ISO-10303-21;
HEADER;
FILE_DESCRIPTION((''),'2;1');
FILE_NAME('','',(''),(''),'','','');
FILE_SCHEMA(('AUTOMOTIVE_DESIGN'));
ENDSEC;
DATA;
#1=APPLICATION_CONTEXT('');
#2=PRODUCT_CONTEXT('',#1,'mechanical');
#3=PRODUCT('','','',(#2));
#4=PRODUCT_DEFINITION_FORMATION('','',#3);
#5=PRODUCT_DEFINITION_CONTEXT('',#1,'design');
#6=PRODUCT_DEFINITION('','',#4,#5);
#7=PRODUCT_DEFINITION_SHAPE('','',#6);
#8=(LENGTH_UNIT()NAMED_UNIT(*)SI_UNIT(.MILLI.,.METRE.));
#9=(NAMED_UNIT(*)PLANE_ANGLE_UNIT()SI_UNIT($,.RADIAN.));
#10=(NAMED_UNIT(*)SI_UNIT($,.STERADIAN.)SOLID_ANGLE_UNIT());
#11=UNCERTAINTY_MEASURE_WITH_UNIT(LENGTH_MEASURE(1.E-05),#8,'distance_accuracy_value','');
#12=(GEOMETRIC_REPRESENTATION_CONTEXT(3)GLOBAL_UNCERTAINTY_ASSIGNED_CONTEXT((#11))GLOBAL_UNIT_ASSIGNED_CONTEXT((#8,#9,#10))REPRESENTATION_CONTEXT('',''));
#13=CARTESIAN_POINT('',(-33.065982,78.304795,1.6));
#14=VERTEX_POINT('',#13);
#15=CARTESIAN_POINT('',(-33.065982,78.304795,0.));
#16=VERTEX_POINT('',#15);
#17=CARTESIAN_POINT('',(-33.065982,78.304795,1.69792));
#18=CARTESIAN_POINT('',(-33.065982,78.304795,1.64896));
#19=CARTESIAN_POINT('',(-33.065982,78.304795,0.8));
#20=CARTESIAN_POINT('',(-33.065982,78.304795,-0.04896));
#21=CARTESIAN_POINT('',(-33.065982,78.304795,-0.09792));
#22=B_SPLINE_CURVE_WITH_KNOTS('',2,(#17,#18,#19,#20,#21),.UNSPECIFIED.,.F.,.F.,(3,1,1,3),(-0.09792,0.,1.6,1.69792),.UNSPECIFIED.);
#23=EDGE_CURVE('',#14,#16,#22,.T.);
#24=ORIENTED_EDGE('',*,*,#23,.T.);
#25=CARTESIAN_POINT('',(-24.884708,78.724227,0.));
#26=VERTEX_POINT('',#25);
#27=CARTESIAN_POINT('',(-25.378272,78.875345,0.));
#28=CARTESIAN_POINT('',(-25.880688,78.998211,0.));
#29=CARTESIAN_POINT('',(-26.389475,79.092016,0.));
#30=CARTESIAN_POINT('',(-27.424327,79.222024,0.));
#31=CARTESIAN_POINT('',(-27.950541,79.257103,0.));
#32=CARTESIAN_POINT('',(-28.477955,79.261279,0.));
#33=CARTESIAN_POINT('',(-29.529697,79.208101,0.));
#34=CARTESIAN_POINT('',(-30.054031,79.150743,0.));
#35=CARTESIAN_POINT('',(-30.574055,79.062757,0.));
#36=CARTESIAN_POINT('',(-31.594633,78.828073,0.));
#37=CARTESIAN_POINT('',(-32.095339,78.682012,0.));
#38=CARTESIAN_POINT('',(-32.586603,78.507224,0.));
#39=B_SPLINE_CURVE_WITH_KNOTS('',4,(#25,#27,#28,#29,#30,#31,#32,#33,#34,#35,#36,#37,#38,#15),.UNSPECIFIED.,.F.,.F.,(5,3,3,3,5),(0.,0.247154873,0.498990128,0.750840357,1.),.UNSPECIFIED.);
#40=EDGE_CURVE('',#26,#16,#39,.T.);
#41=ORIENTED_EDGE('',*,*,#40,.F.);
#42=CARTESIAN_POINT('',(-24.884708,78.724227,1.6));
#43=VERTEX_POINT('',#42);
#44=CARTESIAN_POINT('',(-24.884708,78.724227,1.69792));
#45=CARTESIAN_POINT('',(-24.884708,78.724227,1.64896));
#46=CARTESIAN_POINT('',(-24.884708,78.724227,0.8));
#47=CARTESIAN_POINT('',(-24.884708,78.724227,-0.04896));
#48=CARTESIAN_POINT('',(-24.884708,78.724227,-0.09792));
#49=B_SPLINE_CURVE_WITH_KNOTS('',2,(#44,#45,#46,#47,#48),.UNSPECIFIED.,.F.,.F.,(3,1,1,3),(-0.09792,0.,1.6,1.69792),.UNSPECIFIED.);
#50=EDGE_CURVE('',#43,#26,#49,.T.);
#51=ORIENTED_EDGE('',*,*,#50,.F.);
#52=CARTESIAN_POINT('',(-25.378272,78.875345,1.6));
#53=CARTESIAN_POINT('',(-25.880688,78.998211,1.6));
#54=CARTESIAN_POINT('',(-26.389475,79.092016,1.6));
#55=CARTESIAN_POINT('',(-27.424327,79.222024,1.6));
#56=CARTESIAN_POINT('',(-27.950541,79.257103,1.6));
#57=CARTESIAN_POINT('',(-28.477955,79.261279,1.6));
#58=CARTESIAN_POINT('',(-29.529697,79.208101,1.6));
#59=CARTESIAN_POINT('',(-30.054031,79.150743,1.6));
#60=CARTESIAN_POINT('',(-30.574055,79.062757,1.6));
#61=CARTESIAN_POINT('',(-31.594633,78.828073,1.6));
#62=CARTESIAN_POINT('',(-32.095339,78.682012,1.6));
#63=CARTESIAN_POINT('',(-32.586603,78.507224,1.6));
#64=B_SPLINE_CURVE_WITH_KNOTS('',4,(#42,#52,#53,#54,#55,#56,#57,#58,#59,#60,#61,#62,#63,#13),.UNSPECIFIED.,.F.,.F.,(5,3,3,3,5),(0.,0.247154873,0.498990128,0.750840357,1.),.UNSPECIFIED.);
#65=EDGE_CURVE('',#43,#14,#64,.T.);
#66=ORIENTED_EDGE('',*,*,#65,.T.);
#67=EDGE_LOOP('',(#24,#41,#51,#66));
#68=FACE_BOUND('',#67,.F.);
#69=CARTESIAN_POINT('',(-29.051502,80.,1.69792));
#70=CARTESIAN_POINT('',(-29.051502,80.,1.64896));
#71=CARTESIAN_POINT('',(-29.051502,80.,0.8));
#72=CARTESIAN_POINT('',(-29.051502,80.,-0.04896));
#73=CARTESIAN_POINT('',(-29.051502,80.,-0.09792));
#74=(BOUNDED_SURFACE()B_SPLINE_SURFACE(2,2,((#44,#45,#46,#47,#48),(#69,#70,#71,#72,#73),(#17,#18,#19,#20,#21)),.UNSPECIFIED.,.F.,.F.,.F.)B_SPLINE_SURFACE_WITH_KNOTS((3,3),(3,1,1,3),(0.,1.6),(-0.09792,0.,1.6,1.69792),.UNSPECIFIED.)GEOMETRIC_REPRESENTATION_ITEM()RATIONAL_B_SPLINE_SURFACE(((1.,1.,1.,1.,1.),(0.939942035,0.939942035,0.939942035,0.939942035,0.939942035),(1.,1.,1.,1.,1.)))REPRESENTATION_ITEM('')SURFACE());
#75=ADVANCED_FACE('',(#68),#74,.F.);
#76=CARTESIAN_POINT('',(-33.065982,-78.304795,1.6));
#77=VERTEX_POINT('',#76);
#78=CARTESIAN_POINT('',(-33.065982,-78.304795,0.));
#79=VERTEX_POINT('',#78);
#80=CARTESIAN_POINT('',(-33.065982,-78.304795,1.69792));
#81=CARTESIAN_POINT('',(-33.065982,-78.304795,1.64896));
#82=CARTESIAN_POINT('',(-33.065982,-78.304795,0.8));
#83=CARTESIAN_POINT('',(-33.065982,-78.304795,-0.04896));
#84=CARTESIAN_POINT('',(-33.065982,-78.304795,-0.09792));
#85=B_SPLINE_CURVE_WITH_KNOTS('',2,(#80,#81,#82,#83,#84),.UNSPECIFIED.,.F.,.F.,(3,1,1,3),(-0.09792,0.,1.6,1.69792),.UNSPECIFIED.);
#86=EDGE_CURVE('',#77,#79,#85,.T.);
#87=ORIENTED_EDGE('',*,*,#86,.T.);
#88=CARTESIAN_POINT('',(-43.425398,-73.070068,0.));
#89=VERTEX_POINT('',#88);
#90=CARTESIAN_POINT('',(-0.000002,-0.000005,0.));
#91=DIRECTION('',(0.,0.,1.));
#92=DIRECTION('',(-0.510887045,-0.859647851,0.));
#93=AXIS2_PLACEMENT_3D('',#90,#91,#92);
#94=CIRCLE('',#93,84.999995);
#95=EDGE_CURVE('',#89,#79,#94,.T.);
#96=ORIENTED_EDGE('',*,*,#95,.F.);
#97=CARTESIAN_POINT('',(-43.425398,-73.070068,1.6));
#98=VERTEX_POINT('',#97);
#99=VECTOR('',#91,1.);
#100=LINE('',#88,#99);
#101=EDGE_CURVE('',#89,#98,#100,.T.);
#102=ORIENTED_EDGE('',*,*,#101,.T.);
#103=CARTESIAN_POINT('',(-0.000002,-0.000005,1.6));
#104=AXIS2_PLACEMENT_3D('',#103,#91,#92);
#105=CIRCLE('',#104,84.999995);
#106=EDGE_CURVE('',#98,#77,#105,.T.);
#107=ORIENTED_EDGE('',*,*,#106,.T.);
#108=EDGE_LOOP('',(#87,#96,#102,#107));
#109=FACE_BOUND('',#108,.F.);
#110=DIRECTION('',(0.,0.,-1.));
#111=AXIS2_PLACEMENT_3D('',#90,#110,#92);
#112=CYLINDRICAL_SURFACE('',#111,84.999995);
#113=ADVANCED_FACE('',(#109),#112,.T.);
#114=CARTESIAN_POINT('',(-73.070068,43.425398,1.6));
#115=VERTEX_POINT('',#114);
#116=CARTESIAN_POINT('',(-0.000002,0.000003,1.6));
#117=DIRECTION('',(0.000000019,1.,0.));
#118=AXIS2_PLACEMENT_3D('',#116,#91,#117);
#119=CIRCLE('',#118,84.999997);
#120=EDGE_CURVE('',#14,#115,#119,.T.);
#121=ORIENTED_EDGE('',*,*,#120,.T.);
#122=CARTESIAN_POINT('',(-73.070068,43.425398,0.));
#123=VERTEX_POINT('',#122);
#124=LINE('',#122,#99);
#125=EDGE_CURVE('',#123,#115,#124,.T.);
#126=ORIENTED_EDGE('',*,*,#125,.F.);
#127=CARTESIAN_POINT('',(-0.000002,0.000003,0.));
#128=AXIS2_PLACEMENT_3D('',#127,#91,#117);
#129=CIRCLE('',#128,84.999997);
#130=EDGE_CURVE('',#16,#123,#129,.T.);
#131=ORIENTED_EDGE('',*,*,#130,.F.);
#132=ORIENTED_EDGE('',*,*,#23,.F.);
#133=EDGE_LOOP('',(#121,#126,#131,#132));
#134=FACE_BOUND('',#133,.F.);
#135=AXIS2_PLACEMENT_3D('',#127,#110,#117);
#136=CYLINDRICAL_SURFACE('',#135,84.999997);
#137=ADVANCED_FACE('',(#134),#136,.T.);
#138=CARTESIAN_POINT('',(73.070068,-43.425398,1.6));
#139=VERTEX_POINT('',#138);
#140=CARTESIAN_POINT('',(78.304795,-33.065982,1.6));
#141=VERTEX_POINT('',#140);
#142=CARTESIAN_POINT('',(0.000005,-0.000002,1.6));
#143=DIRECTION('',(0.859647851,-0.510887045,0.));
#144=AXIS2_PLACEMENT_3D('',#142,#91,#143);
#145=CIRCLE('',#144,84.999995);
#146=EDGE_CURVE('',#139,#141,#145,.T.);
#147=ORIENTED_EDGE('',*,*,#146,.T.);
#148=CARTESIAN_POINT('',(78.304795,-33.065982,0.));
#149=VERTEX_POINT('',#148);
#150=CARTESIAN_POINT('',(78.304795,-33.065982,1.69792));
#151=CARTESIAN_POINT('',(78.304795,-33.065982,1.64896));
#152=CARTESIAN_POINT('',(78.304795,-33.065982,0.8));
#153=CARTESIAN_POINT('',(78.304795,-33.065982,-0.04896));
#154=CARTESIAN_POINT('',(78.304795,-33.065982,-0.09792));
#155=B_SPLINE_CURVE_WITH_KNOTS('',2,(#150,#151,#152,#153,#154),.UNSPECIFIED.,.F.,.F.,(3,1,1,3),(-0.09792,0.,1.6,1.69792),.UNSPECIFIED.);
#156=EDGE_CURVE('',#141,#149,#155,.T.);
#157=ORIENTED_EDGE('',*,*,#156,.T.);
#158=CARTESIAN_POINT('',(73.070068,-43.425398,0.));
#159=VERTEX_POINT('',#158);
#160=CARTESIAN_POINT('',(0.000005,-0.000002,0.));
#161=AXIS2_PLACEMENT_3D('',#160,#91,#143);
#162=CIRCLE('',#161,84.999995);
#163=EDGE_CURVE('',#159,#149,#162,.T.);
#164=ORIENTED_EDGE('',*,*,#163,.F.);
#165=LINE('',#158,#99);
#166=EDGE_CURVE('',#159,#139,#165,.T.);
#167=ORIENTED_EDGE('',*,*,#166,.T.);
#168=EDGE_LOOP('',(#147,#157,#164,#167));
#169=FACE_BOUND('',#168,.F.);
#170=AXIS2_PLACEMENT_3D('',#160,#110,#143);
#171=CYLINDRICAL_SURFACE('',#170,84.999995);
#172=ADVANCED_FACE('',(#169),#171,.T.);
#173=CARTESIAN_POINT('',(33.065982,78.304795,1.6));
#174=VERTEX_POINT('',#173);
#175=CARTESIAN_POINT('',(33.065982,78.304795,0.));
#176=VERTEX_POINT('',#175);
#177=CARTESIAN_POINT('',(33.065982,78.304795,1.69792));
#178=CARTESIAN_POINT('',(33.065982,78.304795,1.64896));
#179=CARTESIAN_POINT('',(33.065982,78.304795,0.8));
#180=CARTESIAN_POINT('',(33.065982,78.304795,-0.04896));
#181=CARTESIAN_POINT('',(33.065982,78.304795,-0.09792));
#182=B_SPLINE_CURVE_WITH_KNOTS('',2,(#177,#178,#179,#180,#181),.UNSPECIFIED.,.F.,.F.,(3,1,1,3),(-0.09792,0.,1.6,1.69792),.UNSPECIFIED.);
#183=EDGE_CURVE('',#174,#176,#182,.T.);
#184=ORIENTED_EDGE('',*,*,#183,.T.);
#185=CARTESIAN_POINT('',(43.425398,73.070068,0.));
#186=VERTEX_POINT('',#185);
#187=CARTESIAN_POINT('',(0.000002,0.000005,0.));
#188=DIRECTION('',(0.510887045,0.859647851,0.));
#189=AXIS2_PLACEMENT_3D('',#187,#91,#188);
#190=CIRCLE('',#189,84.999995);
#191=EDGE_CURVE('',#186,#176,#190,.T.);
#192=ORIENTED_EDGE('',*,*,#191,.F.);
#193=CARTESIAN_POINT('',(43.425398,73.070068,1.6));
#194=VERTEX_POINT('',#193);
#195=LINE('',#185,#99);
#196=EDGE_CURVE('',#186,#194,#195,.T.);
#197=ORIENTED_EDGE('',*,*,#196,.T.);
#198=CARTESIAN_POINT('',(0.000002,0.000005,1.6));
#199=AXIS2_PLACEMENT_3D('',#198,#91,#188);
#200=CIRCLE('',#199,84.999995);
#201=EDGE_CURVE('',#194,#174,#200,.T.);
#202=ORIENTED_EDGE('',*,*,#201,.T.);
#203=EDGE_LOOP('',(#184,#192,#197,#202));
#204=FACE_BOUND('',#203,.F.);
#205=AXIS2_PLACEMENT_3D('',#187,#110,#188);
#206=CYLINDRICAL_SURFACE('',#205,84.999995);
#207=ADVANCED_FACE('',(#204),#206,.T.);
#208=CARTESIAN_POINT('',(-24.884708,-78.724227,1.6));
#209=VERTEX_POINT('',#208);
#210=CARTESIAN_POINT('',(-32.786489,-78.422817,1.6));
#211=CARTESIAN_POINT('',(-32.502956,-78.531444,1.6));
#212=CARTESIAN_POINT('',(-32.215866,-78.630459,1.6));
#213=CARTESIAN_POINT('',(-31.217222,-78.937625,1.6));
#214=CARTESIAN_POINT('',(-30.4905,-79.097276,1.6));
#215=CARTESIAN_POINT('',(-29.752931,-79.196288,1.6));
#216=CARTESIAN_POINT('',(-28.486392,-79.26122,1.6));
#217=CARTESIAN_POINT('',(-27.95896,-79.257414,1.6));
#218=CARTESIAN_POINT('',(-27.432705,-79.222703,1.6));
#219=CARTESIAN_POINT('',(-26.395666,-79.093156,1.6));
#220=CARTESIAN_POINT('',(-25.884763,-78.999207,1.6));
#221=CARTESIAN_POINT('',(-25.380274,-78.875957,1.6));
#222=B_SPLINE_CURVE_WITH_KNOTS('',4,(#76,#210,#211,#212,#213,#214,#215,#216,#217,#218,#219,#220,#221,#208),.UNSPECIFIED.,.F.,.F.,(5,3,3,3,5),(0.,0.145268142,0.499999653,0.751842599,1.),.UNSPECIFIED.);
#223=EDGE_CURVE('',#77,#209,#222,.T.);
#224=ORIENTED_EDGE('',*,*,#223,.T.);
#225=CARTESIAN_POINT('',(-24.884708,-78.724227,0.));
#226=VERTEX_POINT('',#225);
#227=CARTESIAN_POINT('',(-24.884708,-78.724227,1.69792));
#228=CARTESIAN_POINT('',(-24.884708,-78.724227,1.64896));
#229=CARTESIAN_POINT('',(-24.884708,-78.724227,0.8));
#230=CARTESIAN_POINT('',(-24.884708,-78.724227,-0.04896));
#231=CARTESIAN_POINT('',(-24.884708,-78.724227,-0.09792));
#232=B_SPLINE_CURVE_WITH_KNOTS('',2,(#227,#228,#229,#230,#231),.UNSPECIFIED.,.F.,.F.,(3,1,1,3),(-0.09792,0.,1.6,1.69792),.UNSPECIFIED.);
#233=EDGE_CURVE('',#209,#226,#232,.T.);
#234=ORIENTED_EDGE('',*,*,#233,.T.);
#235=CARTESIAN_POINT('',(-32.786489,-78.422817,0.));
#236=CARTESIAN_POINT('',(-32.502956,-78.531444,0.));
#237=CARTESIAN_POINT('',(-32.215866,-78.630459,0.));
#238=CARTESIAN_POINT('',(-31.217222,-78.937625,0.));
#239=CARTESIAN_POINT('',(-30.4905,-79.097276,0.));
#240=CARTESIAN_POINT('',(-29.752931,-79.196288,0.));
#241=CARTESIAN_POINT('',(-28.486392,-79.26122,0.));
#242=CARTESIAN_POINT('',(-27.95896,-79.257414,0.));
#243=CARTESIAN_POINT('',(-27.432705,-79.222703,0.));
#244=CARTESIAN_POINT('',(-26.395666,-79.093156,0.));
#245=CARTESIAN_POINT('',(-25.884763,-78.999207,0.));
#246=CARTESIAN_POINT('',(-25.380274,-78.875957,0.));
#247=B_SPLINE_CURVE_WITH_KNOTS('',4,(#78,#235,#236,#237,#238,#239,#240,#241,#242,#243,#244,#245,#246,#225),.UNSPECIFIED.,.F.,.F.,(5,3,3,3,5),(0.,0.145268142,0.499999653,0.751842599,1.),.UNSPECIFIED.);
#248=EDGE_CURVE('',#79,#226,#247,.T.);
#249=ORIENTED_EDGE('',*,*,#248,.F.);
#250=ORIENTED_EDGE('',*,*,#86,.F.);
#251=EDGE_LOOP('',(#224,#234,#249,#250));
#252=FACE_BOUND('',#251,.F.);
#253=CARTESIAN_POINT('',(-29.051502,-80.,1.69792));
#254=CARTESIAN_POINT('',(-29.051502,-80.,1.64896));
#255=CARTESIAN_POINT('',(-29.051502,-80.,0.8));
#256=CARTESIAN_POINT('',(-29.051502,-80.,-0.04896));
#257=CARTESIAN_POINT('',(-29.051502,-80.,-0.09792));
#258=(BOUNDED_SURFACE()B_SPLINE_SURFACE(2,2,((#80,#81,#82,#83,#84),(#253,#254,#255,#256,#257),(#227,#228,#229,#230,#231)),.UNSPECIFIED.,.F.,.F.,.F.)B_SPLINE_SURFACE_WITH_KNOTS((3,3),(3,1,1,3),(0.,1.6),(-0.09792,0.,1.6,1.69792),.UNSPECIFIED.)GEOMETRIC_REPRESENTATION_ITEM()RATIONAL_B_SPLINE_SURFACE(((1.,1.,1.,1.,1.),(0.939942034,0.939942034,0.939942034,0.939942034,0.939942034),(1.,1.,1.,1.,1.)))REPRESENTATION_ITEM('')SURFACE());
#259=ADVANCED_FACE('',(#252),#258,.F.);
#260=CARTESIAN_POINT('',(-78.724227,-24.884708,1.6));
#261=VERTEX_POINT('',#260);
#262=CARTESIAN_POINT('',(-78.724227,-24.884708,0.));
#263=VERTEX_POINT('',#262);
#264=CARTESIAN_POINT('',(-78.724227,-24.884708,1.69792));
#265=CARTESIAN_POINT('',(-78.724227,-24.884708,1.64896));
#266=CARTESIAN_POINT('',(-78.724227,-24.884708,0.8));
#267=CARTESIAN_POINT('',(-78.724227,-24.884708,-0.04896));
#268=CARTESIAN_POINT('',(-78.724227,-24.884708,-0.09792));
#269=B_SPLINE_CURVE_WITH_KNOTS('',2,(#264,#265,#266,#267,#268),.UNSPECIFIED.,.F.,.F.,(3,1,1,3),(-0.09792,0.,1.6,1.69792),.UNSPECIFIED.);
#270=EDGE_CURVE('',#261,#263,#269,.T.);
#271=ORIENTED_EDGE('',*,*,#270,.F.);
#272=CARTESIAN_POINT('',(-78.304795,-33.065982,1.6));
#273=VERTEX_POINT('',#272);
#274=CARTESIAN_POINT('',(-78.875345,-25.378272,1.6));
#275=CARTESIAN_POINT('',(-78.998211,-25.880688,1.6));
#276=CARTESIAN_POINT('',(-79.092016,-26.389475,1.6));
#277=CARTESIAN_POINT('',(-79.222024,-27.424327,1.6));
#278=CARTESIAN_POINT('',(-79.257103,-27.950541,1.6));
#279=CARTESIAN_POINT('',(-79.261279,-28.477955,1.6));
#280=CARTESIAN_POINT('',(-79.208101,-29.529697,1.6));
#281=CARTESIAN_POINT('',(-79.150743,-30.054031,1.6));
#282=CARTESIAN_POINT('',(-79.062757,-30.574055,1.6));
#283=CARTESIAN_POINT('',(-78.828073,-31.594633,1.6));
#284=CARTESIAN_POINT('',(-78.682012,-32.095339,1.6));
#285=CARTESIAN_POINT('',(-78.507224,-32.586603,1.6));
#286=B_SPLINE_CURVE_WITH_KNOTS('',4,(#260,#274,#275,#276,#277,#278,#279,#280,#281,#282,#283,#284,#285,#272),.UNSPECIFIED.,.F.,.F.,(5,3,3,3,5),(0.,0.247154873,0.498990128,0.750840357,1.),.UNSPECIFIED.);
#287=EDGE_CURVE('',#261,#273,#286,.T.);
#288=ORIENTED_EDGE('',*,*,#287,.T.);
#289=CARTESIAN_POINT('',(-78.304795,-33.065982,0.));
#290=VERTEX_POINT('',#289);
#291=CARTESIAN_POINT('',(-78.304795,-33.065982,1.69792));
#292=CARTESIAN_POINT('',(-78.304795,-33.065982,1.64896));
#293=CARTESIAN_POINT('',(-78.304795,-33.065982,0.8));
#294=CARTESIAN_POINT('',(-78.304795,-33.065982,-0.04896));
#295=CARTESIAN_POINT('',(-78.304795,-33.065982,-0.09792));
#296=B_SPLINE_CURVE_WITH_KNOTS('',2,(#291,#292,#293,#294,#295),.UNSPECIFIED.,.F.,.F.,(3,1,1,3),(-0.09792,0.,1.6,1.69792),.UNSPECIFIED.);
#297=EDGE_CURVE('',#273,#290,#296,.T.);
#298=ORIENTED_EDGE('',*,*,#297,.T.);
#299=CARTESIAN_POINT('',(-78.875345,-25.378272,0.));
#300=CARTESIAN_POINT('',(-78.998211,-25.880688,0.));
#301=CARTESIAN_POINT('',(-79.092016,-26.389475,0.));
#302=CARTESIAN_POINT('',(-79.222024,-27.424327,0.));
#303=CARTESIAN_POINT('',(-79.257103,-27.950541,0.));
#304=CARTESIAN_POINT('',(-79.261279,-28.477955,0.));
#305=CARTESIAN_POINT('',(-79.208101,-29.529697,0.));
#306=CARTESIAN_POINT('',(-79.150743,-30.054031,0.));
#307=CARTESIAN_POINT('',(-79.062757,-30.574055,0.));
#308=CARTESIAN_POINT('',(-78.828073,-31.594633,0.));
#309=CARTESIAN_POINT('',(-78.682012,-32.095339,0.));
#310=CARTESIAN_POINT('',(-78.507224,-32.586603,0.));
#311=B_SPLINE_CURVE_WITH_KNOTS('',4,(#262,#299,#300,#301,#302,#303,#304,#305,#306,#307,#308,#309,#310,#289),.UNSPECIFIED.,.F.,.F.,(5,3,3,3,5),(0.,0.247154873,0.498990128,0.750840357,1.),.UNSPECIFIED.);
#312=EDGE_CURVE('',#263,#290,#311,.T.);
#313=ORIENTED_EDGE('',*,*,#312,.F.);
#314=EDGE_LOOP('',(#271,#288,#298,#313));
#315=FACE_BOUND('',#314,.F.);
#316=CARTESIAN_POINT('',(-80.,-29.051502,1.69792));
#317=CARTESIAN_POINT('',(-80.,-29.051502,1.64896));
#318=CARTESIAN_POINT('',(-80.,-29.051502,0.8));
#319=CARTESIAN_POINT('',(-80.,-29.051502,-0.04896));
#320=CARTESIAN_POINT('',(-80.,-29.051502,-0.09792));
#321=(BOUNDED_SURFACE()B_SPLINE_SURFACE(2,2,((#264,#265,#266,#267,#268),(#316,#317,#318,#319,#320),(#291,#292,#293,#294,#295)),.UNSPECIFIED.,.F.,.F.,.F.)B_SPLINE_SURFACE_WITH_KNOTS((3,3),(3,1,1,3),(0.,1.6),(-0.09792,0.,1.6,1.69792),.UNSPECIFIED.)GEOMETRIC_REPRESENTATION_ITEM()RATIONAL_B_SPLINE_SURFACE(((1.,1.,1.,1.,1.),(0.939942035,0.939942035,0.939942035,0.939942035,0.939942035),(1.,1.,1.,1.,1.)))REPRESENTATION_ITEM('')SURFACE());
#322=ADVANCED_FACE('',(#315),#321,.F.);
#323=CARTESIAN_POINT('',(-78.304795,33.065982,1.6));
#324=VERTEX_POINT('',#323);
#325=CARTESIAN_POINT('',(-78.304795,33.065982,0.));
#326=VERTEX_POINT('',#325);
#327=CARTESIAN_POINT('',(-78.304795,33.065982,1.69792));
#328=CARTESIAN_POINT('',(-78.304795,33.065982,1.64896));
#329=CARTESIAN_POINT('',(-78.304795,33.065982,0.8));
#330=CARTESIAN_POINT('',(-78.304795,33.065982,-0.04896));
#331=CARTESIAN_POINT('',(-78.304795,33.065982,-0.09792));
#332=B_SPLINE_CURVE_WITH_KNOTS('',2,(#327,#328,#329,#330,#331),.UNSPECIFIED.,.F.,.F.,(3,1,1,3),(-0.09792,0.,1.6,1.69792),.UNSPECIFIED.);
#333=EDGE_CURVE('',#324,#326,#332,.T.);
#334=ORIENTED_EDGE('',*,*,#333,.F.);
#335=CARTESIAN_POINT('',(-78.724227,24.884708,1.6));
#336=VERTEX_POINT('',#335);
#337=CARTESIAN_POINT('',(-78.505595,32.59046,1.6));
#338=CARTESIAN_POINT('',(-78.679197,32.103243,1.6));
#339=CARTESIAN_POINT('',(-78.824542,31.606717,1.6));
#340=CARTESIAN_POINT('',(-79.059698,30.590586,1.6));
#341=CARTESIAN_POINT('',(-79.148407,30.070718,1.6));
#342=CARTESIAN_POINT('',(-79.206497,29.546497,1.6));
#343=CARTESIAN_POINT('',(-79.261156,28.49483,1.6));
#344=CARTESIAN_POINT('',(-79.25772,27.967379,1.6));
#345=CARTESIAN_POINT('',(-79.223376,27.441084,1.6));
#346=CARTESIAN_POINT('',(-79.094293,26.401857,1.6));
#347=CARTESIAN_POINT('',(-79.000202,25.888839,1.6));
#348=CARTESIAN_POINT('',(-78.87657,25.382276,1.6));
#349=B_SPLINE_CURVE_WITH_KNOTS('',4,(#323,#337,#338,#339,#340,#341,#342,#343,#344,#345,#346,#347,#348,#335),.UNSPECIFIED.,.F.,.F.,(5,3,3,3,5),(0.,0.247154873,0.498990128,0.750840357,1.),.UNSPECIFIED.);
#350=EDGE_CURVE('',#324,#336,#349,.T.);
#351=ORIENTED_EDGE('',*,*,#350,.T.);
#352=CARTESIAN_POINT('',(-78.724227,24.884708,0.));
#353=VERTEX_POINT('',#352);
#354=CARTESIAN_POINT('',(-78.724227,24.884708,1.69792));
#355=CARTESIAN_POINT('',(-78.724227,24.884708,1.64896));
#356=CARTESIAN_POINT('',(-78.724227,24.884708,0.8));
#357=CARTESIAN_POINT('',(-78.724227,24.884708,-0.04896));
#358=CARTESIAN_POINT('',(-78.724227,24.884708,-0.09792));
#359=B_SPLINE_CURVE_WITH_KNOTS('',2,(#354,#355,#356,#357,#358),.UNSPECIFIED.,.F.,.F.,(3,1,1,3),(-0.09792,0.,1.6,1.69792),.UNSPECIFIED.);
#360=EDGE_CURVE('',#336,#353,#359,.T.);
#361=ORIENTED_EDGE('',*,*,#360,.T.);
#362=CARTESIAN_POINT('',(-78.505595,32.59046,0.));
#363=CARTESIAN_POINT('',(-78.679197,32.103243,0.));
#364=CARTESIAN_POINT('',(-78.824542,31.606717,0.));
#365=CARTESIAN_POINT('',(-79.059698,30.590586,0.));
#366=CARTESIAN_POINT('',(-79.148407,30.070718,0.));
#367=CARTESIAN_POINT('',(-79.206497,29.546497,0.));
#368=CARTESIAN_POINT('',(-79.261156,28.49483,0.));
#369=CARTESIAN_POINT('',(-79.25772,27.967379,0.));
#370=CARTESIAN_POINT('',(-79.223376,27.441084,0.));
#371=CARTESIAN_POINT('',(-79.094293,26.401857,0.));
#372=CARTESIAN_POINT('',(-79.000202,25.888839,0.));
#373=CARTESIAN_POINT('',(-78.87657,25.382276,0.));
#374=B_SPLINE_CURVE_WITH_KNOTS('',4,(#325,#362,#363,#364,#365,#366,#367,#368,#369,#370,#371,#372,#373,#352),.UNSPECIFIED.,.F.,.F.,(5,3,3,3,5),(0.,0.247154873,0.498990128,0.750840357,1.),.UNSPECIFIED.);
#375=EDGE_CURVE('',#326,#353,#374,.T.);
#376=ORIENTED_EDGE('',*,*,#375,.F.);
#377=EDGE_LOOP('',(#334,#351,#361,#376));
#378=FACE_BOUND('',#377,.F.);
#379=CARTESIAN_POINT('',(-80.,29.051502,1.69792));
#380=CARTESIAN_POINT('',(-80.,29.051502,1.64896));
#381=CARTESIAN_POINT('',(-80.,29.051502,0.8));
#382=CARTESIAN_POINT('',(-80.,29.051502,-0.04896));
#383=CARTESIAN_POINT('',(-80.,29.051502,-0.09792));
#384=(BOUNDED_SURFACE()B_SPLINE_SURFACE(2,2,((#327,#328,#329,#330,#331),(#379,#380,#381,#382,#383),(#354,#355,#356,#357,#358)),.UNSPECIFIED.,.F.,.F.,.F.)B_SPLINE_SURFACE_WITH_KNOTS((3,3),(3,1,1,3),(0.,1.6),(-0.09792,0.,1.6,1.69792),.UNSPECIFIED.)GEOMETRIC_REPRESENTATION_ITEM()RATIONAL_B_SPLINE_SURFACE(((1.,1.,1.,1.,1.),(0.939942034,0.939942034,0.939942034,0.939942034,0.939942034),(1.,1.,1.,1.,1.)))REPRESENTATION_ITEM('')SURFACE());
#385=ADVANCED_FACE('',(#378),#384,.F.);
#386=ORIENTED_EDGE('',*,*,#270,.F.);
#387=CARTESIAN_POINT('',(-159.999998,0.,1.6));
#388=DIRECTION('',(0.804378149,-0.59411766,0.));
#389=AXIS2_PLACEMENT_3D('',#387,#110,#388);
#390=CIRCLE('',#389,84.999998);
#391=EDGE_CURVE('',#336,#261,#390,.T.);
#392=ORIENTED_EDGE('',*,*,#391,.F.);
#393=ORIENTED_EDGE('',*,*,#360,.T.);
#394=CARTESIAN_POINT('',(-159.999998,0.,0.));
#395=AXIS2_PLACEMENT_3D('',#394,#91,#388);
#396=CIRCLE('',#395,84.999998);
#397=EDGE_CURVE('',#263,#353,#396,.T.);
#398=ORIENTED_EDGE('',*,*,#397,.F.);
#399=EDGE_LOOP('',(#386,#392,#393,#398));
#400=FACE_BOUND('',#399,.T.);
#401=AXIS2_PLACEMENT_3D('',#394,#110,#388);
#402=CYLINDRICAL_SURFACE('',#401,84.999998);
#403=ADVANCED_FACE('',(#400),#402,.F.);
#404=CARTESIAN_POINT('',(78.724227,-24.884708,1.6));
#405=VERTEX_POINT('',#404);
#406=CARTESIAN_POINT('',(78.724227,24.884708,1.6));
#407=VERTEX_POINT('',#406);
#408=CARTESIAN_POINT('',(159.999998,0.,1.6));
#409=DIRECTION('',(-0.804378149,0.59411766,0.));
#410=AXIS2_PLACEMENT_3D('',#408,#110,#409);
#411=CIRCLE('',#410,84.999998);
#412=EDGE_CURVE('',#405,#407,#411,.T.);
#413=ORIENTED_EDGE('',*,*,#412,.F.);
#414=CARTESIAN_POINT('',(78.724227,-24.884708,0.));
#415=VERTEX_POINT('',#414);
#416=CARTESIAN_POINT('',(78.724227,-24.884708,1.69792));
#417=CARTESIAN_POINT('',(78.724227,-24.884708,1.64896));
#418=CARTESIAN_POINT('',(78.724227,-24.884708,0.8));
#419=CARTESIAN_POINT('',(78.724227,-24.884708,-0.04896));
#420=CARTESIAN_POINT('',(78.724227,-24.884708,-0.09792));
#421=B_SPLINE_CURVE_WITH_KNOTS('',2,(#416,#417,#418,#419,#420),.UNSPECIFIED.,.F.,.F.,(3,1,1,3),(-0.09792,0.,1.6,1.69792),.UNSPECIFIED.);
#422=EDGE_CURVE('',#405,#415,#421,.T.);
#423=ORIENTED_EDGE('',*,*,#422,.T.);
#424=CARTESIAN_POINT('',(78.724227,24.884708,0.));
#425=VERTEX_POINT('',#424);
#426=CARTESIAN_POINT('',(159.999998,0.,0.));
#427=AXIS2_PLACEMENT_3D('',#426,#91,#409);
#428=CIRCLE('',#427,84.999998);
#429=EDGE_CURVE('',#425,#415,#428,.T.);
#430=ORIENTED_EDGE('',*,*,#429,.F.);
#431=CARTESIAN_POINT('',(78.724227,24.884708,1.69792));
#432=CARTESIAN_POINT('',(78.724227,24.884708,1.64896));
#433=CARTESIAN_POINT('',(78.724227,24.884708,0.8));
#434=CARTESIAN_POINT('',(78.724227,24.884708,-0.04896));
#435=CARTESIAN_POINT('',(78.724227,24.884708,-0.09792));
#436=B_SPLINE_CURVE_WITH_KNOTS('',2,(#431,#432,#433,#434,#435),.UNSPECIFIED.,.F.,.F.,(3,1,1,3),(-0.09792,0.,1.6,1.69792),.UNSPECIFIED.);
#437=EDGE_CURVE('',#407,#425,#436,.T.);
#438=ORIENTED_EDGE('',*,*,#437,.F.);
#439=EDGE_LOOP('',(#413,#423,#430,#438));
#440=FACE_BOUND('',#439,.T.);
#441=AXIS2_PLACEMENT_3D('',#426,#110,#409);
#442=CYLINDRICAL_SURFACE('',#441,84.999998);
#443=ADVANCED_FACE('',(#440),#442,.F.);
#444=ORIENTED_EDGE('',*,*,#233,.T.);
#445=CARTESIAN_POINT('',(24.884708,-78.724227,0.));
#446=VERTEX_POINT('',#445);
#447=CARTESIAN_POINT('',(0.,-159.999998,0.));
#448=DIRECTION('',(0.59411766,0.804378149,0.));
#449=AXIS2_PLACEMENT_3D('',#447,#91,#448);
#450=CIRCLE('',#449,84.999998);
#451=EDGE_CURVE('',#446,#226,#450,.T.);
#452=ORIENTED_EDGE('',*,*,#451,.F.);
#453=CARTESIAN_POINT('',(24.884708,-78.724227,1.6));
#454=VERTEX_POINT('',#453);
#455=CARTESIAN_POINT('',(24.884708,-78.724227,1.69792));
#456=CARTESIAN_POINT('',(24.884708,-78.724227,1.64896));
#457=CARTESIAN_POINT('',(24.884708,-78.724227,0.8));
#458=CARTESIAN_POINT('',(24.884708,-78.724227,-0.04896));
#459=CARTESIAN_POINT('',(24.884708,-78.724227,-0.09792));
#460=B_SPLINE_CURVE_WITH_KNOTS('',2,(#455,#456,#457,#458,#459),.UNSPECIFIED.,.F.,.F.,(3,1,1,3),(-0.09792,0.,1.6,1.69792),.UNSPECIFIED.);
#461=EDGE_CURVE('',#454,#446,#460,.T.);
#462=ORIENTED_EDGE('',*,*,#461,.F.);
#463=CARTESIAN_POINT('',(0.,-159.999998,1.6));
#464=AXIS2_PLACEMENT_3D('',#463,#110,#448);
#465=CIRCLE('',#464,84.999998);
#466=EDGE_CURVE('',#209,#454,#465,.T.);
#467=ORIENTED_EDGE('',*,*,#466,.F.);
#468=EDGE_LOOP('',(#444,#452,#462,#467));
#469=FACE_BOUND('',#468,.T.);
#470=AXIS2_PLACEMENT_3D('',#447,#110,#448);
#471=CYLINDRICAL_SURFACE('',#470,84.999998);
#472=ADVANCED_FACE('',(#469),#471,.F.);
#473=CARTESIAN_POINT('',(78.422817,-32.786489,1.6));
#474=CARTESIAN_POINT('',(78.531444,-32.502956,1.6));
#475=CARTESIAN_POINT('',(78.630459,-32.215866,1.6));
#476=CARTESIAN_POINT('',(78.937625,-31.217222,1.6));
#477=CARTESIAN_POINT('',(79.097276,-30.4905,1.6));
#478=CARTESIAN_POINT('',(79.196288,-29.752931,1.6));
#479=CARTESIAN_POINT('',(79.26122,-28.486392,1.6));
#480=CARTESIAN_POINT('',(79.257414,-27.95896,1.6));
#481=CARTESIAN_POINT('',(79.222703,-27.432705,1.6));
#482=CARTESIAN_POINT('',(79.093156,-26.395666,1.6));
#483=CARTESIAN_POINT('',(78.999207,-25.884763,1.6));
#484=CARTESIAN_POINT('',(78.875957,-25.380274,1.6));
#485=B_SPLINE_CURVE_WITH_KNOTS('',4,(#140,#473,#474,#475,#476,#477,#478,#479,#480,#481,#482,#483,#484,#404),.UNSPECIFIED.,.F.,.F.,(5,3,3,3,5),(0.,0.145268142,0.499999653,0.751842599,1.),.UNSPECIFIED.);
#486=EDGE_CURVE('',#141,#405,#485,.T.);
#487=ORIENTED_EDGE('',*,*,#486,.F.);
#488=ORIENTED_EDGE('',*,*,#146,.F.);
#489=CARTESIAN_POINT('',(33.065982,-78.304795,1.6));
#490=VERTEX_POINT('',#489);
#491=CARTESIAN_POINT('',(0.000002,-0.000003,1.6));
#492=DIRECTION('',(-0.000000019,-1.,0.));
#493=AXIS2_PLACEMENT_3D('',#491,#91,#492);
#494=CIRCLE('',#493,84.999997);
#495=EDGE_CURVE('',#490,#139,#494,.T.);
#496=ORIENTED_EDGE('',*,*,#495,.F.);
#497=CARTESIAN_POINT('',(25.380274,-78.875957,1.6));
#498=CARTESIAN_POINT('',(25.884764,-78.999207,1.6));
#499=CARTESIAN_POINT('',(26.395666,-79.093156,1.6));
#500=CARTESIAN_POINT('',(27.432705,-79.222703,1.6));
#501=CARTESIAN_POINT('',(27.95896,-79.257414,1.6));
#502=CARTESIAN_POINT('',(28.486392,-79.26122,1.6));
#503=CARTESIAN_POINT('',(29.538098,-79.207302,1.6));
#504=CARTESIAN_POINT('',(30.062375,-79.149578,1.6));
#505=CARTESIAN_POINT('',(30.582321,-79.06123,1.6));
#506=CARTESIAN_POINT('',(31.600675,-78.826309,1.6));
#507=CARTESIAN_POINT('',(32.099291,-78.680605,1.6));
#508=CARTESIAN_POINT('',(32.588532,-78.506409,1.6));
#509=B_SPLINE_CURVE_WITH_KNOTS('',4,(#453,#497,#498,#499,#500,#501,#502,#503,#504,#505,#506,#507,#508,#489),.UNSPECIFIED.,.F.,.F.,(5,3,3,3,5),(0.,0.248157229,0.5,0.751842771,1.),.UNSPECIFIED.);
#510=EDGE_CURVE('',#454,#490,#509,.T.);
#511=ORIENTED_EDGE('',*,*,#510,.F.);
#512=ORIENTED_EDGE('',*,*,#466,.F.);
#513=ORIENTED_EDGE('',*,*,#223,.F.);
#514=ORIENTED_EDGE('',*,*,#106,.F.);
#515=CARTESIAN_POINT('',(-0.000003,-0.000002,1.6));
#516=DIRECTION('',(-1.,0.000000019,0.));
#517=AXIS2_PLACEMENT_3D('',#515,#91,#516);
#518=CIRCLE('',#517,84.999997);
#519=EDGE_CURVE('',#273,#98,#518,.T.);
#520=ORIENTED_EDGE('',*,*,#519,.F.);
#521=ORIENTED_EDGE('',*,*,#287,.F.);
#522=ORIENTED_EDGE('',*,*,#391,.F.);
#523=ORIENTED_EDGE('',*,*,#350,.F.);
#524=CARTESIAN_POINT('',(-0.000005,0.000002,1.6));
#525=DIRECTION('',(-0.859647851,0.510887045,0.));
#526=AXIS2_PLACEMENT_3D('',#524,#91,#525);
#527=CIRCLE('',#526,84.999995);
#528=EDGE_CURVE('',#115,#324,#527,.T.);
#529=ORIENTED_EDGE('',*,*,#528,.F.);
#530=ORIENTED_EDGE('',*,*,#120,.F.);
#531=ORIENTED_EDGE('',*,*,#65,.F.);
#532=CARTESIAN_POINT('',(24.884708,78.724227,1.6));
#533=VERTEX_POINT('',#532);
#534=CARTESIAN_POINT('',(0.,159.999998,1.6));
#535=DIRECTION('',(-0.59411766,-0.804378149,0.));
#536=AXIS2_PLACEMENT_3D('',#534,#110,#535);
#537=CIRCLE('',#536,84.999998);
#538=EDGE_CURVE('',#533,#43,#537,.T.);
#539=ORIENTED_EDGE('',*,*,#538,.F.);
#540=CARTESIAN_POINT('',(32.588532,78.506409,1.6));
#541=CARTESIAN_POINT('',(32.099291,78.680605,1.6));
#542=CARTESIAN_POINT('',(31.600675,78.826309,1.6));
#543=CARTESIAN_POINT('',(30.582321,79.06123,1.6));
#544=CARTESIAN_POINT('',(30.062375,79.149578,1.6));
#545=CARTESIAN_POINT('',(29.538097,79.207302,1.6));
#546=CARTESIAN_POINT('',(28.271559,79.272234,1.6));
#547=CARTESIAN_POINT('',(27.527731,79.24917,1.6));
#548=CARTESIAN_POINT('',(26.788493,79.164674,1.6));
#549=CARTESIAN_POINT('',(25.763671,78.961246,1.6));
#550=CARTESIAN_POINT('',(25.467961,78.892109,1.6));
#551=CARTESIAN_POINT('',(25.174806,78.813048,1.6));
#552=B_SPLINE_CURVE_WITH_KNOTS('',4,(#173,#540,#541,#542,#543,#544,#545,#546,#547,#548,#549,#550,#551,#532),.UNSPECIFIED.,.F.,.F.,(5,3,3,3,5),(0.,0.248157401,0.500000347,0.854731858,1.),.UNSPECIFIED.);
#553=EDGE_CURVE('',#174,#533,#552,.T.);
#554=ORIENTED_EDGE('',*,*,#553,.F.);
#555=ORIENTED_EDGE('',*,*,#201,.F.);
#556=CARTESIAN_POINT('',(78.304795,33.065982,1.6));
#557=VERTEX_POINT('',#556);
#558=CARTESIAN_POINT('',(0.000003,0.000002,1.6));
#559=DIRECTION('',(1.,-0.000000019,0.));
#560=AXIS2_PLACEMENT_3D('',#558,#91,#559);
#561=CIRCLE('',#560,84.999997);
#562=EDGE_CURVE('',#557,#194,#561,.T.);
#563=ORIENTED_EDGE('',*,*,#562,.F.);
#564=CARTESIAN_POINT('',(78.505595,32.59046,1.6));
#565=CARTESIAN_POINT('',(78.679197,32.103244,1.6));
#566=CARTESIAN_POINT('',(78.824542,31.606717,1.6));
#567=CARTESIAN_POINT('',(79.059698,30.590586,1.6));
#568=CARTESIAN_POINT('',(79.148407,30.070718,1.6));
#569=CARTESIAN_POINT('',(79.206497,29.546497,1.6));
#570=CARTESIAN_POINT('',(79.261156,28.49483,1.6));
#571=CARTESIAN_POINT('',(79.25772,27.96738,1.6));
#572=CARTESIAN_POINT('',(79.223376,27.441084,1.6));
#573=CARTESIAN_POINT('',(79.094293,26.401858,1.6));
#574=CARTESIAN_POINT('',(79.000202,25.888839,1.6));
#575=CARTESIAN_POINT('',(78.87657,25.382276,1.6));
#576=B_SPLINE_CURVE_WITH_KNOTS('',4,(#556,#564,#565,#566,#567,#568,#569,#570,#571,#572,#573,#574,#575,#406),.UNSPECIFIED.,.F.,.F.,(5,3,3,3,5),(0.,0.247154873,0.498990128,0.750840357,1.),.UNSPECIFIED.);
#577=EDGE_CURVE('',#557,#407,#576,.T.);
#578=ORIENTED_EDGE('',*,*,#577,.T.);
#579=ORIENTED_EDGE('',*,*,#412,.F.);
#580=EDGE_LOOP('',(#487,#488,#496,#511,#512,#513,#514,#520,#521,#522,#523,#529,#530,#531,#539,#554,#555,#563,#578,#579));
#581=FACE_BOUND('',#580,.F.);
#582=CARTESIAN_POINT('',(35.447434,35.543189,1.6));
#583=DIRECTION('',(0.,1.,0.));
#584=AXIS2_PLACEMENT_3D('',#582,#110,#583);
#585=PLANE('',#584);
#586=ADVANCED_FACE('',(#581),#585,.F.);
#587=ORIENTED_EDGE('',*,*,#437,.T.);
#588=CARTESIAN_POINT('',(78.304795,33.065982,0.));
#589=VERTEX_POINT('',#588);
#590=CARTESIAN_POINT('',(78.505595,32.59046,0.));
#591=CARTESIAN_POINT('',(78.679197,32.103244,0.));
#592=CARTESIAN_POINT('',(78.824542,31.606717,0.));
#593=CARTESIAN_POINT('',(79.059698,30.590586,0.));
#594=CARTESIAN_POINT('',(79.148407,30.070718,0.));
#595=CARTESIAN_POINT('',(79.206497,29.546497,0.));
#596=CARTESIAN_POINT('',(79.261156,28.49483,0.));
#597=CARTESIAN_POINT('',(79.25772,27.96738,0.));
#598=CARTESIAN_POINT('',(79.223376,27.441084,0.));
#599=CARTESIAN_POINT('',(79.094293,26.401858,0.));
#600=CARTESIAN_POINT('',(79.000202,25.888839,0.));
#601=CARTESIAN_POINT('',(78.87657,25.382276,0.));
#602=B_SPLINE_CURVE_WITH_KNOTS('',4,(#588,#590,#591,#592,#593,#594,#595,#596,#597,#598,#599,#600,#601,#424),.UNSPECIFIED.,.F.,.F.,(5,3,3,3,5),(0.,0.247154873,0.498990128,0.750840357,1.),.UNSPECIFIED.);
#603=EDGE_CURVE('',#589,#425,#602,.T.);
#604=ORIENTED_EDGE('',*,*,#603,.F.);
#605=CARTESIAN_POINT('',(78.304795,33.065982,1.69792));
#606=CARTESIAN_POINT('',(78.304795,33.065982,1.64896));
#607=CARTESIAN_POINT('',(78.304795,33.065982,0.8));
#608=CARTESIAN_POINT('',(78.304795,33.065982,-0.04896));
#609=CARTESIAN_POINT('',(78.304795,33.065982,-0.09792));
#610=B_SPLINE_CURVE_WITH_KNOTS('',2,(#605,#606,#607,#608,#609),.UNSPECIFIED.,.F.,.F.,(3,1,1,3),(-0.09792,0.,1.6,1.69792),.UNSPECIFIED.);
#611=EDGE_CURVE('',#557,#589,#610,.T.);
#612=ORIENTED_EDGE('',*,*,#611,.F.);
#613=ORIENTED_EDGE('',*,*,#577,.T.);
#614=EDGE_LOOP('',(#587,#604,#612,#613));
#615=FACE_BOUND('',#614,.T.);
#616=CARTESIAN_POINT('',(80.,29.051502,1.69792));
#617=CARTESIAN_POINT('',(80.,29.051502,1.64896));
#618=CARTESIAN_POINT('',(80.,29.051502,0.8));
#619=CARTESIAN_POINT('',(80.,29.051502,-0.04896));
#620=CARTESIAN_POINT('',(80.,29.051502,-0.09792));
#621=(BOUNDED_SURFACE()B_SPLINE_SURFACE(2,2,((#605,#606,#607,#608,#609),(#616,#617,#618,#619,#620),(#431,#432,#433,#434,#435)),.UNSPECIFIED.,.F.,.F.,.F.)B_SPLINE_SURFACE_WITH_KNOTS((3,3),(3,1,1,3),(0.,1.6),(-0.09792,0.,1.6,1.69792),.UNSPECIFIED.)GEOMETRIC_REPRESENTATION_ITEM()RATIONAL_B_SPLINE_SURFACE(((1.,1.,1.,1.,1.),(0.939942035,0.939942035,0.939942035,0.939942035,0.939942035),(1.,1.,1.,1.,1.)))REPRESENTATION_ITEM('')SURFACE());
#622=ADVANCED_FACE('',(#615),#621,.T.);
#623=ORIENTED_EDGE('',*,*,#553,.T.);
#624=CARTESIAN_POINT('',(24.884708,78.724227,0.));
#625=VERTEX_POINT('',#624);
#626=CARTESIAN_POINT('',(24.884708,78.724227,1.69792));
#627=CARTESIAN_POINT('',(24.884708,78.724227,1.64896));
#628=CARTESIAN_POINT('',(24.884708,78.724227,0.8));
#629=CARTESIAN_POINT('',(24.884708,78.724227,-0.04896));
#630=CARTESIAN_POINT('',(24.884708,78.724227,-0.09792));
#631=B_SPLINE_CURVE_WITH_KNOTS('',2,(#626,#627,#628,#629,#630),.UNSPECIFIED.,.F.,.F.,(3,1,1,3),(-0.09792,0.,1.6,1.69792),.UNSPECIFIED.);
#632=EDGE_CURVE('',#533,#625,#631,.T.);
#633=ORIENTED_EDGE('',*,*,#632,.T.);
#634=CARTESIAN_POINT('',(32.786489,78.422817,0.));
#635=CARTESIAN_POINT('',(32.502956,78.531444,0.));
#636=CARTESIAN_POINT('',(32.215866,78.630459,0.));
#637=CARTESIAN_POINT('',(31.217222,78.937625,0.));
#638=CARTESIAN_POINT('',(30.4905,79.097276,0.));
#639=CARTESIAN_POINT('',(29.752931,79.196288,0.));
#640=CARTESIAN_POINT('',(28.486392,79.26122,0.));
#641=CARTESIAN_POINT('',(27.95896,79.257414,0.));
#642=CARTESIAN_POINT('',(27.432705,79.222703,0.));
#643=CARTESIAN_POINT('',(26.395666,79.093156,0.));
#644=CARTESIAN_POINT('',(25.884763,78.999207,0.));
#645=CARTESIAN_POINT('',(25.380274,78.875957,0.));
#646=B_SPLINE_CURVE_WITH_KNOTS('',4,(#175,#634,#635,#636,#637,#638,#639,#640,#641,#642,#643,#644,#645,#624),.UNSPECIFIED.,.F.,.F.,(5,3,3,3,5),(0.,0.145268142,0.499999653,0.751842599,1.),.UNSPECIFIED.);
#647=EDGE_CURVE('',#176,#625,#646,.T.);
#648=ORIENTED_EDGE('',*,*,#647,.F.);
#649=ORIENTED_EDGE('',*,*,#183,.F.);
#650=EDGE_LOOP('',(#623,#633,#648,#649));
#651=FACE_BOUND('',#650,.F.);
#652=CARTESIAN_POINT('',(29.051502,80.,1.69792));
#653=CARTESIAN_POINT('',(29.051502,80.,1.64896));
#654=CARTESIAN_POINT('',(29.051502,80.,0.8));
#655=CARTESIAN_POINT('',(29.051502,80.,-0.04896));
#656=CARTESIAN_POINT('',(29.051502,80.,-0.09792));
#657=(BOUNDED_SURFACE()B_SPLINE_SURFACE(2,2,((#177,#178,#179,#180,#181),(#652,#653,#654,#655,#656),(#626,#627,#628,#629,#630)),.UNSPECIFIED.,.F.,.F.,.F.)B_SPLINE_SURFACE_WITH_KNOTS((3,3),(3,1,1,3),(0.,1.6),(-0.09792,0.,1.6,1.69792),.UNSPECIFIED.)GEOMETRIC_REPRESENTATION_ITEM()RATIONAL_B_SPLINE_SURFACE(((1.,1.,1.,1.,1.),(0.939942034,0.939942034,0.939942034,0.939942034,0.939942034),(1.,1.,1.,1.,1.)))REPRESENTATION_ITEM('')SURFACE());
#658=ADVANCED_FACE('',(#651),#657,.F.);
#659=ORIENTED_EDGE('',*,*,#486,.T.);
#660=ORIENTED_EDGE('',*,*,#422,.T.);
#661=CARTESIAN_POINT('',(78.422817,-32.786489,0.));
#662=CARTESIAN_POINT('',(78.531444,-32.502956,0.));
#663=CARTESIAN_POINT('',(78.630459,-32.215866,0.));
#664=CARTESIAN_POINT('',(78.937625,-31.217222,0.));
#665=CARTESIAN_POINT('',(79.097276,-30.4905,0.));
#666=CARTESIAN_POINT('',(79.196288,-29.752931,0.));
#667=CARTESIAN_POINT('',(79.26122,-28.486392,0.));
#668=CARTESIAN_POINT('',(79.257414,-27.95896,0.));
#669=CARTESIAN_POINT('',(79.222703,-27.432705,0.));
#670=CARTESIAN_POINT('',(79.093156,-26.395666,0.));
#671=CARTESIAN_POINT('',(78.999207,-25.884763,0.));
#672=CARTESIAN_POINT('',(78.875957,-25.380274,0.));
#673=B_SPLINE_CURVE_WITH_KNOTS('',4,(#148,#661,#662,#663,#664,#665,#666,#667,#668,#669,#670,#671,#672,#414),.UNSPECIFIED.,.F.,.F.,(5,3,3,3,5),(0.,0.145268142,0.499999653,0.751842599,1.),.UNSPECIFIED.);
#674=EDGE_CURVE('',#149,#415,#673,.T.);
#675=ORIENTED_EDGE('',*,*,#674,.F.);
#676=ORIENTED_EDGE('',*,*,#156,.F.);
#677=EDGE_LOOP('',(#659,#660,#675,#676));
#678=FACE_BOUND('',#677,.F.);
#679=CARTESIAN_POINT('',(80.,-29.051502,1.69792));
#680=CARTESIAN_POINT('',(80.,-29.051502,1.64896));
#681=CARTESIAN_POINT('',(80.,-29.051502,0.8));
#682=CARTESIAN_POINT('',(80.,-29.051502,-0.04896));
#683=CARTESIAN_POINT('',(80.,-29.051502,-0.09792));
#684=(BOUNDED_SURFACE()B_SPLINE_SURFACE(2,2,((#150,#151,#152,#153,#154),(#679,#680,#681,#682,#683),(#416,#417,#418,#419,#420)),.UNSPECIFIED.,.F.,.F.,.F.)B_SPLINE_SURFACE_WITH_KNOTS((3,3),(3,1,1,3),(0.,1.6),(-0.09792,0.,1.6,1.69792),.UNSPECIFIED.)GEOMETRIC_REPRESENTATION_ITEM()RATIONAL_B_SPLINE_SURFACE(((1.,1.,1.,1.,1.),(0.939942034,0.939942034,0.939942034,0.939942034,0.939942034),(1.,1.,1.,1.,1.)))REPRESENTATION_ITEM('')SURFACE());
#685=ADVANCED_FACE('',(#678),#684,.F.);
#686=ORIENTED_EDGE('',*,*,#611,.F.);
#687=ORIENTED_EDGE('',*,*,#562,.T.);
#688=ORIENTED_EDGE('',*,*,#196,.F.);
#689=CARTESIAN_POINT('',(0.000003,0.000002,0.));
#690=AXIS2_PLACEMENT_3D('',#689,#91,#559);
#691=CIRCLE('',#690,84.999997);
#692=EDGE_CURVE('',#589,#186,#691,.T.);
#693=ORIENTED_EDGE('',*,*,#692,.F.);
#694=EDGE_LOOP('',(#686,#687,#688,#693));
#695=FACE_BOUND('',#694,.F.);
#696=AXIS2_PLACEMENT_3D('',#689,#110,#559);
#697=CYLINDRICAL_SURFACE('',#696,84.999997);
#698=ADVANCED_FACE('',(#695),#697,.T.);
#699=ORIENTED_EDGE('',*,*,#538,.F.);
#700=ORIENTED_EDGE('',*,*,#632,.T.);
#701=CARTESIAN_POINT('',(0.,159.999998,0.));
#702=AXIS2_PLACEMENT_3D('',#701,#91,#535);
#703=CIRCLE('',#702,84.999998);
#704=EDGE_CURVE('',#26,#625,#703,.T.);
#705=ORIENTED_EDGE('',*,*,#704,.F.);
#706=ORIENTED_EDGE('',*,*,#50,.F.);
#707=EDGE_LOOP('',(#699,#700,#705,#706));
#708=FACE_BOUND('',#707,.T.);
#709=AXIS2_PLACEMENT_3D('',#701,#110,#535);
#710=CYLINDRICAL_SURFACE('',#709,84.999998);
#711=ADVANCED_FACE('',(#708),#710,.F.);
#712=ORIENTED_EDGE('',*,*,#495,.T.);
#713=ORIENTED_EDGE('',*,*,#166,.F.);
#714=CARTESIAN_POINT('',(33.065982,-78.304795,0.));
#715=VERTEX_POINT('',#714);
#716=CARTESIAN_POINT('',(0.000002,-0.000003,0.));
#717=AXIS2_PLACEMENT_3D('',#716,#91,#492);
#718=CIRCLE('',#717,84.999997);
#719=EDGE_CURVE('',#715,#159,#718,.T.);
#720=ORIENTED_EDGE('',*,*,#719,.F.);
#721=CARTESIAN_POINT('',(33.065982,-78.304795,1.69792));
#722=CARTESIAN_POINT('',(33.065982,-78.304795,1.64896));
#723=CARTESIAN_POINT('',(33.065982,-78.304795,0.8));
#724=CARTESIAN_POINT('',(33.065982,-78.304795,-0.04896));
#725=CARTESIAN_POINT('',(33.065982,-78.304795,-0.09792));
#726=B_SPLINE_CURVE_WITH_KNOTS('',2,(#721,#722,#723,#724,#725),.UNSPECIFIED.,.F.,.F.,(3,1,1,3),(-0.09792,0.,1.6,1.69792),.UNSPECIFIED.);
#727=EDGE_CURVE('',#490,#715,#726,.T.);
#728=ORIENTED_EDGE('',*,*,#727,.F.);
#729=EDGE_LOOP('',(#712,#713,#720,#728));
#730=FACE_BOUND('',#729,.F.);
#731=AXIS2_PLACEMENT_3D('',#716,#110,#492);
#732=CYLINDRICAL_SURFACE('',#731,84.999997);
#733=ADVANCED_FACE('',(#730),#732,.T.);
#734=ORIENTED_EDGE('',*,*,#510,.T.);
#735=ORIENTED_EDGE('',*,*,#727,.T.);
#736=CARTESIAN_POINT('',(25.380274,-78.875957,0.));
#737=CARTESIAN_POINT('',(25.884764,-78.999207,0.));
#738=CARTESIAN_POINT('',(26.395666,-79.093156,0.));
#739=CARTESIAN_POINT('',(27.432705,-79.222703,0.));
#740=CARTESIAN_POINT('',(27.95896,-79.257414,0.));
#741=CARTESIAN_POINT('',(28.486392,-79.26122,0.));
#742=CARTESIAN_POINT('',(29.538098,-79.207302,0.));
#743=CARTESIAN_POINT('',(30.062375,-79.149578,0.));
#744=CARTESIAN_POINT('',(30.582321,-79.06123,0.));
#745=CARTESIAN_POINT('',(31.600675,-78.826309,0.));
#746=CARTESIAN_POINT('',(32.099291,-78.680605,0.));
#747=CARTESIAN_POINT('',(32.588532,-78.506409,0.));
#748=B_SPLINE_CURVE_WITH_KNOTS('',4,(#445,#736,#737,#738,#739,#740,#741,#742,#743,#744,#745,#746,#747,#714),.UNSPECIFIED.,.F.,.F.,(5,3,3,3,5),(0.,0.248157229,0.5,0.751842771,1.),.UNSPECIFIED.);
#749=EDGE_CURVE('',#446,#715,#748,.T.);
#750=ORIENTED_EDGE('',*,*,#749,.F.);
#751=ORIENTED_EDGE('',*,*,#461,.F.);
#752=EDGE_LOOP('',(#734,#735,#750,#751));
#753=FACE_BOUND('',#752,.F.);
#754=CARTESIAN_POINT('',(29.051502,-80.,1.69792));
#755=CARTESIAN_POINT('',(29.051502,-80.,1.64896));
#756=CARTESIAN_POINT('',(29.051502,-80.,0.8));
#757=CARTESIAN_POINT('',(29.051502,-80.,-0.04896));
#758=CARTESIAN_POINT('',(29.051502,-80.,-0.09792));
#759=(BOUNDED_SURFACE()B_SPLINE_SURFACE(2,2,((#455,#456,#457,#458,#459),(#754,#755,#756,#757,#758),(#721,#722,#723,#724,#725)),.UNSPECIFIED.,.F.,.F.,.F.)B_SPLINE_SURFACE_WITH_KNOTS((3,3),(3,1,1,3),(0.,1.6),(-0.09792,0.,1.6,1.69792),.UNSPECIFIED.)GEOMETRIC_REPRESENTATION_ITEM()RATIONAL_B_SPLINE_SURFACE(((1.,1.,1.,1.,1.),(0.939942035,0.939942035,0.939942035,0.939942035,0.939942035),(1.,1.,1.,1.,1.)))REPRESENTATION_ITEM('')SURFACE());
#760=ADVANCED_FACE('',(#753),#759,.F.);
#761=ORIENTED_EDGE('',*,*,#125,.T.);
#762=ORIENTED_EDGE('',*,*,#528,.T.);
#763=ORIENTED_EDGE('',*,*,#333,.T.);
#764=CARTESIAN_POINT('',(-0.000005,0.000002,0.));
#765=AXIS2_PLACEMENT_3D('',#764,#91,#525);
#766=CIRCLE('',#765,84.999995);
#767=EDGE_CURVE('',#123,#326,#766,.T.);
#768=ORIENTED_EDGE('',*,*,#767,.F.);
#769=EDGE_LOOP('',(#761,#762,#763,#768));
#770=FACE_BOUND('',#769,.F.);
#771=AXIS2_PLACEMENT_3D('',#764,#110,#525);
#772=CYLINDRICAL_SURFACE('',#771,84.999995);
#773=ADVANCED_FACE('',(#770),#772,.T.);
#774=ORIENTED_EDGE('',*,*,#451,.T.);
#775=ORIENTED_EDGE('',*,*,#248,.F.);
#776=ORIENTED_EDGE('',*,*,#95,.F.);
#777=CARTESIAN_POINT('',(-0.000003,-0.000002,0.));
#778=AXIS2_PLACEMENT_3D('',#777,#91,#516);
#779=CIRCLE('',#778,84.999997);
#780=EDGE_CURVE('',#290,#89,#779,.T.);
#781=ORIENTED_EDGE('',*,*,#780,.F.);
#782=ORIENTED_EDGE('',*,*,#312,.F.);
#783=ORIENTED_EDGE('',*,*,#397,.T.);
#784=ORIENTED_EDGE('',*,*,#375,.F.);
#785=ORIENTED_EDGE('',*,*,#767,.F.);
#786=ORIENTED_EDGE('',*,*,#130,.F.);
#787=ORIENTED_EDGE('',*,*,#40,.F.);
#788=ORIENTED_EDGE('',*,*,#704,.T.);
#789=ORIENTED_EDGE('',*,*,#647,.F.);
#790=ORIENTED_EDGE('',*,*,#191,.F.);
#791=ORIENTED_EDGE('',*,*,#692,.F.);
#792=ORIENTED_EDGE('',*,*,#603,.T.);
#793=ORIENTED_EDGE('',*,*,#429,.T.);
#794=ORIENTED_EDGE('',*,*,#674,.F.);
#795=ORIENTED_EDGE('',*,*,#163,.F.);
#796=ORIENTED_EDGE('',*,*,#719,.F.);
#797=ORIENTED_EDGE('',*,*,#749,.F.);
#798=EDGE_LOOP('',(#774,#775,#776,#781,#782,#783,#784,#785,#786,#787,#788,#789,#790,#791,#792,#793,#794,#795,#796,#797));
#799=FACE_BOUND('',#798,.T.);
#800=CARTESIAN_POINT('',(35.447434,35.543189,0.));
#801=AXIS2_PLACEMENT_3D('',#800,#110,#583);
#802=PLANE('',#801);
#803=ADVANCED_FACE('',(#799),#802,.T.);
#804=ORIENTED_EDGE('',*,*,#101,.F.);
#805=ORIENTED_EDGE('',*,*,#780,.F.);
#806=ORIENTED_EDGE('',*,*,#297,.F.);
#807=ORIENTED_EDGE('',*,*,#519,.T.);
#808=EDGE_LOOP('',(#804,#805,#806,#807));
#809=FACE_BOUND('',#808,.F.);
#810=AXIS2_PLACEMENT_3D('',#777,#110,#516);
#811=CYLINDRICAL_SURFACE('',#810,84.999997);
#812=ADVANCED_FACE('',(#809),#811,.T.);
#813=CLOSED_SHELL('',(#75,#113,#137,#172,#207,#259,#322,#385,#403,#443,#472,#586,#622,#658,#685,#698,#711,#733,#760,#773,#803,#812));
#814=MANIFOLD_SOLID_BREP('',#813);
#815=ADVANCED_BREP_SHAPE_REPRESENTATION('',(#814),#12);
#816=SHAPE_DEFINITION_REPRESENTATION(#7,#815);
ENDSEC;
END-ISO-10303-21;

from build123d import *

# Parameters (mm, degrees)
PAD_DEPTH             = 1.6
POLARPATTERN_COUNT    = 4
POCKET_DEPTH          = 5
POLARPATTERN001_COUNT = 4
FILLET_R              = 12


with BuildPart() as part:
    # Sketch → Pad (new body)
    with BuildSketch(Plane.XY):
        with BuildLine():
            Line((0, 0), (-85, 0))
            ThreePointArc((-73.070068, 43.425398), (-81.963272, 22.517151), (-85, 0))
            ThreePointArc((0, 85), (-42.034755, 73.878816), (-73.070068, 43.425398))
            Line((0, 0), (0, 85))
        make_face()
    pad = extrude(amount=PAD_DEPTH)

    # PolarPattern: Pad ×4 about axis
    polarpattern_axis = Axis((0, 0, 0), (0, 0, 1))
    for i in range(1, POLARPATTERN_COUNT):
        add(pad.rotate(polarpattern_axis, i * 360 / POLARPATTERN_COUNT))

    # Sketch001 → Pocket (cut)
    with BuildSketch(Plane.XY):
        with BuildLine():
            ThreePointArc((-91.627857, -50.5), (-75, 0), (-91.627857, 50.5))
            Line((-91.627857, 50.5), (-91.627857, -50.5))
        make_face()
    pocket = extrude(amount=POCKET_DEPTH, mode=Mode.SUBTRACT)

    # PolarPattern001: Pocket ×4 about axis
    polarpattern001_axis = Axis((0, 0, 0), (0, 0, 1))
    for i in range(1, POLARPATTERN001_COUNT):
        add(pocket.rotate(polarpattern001_axis, i * 360 / POLARPATTERN001_COUNT), mode=Mode.SUBTRACT)

    # Fillet
    fillet_edges = [part.edges().sort_by_distance(p)[0] for p in [
        (-80, 28.722813, 0.8),
        (-80, -28.722813, 0.8),
        (-28.722813, 80, 0.8),
        (28.722813, 80, 0.8),
        (80, 28.722813, 0.8),
        (80, -28.722813, 0.8),
        (-28.722813, -80, 0.8),
        (28.722813, -80, 0.8),
    ]]
    fillet(fillet_edges, radius=FILLET_R)


solid = part.part
